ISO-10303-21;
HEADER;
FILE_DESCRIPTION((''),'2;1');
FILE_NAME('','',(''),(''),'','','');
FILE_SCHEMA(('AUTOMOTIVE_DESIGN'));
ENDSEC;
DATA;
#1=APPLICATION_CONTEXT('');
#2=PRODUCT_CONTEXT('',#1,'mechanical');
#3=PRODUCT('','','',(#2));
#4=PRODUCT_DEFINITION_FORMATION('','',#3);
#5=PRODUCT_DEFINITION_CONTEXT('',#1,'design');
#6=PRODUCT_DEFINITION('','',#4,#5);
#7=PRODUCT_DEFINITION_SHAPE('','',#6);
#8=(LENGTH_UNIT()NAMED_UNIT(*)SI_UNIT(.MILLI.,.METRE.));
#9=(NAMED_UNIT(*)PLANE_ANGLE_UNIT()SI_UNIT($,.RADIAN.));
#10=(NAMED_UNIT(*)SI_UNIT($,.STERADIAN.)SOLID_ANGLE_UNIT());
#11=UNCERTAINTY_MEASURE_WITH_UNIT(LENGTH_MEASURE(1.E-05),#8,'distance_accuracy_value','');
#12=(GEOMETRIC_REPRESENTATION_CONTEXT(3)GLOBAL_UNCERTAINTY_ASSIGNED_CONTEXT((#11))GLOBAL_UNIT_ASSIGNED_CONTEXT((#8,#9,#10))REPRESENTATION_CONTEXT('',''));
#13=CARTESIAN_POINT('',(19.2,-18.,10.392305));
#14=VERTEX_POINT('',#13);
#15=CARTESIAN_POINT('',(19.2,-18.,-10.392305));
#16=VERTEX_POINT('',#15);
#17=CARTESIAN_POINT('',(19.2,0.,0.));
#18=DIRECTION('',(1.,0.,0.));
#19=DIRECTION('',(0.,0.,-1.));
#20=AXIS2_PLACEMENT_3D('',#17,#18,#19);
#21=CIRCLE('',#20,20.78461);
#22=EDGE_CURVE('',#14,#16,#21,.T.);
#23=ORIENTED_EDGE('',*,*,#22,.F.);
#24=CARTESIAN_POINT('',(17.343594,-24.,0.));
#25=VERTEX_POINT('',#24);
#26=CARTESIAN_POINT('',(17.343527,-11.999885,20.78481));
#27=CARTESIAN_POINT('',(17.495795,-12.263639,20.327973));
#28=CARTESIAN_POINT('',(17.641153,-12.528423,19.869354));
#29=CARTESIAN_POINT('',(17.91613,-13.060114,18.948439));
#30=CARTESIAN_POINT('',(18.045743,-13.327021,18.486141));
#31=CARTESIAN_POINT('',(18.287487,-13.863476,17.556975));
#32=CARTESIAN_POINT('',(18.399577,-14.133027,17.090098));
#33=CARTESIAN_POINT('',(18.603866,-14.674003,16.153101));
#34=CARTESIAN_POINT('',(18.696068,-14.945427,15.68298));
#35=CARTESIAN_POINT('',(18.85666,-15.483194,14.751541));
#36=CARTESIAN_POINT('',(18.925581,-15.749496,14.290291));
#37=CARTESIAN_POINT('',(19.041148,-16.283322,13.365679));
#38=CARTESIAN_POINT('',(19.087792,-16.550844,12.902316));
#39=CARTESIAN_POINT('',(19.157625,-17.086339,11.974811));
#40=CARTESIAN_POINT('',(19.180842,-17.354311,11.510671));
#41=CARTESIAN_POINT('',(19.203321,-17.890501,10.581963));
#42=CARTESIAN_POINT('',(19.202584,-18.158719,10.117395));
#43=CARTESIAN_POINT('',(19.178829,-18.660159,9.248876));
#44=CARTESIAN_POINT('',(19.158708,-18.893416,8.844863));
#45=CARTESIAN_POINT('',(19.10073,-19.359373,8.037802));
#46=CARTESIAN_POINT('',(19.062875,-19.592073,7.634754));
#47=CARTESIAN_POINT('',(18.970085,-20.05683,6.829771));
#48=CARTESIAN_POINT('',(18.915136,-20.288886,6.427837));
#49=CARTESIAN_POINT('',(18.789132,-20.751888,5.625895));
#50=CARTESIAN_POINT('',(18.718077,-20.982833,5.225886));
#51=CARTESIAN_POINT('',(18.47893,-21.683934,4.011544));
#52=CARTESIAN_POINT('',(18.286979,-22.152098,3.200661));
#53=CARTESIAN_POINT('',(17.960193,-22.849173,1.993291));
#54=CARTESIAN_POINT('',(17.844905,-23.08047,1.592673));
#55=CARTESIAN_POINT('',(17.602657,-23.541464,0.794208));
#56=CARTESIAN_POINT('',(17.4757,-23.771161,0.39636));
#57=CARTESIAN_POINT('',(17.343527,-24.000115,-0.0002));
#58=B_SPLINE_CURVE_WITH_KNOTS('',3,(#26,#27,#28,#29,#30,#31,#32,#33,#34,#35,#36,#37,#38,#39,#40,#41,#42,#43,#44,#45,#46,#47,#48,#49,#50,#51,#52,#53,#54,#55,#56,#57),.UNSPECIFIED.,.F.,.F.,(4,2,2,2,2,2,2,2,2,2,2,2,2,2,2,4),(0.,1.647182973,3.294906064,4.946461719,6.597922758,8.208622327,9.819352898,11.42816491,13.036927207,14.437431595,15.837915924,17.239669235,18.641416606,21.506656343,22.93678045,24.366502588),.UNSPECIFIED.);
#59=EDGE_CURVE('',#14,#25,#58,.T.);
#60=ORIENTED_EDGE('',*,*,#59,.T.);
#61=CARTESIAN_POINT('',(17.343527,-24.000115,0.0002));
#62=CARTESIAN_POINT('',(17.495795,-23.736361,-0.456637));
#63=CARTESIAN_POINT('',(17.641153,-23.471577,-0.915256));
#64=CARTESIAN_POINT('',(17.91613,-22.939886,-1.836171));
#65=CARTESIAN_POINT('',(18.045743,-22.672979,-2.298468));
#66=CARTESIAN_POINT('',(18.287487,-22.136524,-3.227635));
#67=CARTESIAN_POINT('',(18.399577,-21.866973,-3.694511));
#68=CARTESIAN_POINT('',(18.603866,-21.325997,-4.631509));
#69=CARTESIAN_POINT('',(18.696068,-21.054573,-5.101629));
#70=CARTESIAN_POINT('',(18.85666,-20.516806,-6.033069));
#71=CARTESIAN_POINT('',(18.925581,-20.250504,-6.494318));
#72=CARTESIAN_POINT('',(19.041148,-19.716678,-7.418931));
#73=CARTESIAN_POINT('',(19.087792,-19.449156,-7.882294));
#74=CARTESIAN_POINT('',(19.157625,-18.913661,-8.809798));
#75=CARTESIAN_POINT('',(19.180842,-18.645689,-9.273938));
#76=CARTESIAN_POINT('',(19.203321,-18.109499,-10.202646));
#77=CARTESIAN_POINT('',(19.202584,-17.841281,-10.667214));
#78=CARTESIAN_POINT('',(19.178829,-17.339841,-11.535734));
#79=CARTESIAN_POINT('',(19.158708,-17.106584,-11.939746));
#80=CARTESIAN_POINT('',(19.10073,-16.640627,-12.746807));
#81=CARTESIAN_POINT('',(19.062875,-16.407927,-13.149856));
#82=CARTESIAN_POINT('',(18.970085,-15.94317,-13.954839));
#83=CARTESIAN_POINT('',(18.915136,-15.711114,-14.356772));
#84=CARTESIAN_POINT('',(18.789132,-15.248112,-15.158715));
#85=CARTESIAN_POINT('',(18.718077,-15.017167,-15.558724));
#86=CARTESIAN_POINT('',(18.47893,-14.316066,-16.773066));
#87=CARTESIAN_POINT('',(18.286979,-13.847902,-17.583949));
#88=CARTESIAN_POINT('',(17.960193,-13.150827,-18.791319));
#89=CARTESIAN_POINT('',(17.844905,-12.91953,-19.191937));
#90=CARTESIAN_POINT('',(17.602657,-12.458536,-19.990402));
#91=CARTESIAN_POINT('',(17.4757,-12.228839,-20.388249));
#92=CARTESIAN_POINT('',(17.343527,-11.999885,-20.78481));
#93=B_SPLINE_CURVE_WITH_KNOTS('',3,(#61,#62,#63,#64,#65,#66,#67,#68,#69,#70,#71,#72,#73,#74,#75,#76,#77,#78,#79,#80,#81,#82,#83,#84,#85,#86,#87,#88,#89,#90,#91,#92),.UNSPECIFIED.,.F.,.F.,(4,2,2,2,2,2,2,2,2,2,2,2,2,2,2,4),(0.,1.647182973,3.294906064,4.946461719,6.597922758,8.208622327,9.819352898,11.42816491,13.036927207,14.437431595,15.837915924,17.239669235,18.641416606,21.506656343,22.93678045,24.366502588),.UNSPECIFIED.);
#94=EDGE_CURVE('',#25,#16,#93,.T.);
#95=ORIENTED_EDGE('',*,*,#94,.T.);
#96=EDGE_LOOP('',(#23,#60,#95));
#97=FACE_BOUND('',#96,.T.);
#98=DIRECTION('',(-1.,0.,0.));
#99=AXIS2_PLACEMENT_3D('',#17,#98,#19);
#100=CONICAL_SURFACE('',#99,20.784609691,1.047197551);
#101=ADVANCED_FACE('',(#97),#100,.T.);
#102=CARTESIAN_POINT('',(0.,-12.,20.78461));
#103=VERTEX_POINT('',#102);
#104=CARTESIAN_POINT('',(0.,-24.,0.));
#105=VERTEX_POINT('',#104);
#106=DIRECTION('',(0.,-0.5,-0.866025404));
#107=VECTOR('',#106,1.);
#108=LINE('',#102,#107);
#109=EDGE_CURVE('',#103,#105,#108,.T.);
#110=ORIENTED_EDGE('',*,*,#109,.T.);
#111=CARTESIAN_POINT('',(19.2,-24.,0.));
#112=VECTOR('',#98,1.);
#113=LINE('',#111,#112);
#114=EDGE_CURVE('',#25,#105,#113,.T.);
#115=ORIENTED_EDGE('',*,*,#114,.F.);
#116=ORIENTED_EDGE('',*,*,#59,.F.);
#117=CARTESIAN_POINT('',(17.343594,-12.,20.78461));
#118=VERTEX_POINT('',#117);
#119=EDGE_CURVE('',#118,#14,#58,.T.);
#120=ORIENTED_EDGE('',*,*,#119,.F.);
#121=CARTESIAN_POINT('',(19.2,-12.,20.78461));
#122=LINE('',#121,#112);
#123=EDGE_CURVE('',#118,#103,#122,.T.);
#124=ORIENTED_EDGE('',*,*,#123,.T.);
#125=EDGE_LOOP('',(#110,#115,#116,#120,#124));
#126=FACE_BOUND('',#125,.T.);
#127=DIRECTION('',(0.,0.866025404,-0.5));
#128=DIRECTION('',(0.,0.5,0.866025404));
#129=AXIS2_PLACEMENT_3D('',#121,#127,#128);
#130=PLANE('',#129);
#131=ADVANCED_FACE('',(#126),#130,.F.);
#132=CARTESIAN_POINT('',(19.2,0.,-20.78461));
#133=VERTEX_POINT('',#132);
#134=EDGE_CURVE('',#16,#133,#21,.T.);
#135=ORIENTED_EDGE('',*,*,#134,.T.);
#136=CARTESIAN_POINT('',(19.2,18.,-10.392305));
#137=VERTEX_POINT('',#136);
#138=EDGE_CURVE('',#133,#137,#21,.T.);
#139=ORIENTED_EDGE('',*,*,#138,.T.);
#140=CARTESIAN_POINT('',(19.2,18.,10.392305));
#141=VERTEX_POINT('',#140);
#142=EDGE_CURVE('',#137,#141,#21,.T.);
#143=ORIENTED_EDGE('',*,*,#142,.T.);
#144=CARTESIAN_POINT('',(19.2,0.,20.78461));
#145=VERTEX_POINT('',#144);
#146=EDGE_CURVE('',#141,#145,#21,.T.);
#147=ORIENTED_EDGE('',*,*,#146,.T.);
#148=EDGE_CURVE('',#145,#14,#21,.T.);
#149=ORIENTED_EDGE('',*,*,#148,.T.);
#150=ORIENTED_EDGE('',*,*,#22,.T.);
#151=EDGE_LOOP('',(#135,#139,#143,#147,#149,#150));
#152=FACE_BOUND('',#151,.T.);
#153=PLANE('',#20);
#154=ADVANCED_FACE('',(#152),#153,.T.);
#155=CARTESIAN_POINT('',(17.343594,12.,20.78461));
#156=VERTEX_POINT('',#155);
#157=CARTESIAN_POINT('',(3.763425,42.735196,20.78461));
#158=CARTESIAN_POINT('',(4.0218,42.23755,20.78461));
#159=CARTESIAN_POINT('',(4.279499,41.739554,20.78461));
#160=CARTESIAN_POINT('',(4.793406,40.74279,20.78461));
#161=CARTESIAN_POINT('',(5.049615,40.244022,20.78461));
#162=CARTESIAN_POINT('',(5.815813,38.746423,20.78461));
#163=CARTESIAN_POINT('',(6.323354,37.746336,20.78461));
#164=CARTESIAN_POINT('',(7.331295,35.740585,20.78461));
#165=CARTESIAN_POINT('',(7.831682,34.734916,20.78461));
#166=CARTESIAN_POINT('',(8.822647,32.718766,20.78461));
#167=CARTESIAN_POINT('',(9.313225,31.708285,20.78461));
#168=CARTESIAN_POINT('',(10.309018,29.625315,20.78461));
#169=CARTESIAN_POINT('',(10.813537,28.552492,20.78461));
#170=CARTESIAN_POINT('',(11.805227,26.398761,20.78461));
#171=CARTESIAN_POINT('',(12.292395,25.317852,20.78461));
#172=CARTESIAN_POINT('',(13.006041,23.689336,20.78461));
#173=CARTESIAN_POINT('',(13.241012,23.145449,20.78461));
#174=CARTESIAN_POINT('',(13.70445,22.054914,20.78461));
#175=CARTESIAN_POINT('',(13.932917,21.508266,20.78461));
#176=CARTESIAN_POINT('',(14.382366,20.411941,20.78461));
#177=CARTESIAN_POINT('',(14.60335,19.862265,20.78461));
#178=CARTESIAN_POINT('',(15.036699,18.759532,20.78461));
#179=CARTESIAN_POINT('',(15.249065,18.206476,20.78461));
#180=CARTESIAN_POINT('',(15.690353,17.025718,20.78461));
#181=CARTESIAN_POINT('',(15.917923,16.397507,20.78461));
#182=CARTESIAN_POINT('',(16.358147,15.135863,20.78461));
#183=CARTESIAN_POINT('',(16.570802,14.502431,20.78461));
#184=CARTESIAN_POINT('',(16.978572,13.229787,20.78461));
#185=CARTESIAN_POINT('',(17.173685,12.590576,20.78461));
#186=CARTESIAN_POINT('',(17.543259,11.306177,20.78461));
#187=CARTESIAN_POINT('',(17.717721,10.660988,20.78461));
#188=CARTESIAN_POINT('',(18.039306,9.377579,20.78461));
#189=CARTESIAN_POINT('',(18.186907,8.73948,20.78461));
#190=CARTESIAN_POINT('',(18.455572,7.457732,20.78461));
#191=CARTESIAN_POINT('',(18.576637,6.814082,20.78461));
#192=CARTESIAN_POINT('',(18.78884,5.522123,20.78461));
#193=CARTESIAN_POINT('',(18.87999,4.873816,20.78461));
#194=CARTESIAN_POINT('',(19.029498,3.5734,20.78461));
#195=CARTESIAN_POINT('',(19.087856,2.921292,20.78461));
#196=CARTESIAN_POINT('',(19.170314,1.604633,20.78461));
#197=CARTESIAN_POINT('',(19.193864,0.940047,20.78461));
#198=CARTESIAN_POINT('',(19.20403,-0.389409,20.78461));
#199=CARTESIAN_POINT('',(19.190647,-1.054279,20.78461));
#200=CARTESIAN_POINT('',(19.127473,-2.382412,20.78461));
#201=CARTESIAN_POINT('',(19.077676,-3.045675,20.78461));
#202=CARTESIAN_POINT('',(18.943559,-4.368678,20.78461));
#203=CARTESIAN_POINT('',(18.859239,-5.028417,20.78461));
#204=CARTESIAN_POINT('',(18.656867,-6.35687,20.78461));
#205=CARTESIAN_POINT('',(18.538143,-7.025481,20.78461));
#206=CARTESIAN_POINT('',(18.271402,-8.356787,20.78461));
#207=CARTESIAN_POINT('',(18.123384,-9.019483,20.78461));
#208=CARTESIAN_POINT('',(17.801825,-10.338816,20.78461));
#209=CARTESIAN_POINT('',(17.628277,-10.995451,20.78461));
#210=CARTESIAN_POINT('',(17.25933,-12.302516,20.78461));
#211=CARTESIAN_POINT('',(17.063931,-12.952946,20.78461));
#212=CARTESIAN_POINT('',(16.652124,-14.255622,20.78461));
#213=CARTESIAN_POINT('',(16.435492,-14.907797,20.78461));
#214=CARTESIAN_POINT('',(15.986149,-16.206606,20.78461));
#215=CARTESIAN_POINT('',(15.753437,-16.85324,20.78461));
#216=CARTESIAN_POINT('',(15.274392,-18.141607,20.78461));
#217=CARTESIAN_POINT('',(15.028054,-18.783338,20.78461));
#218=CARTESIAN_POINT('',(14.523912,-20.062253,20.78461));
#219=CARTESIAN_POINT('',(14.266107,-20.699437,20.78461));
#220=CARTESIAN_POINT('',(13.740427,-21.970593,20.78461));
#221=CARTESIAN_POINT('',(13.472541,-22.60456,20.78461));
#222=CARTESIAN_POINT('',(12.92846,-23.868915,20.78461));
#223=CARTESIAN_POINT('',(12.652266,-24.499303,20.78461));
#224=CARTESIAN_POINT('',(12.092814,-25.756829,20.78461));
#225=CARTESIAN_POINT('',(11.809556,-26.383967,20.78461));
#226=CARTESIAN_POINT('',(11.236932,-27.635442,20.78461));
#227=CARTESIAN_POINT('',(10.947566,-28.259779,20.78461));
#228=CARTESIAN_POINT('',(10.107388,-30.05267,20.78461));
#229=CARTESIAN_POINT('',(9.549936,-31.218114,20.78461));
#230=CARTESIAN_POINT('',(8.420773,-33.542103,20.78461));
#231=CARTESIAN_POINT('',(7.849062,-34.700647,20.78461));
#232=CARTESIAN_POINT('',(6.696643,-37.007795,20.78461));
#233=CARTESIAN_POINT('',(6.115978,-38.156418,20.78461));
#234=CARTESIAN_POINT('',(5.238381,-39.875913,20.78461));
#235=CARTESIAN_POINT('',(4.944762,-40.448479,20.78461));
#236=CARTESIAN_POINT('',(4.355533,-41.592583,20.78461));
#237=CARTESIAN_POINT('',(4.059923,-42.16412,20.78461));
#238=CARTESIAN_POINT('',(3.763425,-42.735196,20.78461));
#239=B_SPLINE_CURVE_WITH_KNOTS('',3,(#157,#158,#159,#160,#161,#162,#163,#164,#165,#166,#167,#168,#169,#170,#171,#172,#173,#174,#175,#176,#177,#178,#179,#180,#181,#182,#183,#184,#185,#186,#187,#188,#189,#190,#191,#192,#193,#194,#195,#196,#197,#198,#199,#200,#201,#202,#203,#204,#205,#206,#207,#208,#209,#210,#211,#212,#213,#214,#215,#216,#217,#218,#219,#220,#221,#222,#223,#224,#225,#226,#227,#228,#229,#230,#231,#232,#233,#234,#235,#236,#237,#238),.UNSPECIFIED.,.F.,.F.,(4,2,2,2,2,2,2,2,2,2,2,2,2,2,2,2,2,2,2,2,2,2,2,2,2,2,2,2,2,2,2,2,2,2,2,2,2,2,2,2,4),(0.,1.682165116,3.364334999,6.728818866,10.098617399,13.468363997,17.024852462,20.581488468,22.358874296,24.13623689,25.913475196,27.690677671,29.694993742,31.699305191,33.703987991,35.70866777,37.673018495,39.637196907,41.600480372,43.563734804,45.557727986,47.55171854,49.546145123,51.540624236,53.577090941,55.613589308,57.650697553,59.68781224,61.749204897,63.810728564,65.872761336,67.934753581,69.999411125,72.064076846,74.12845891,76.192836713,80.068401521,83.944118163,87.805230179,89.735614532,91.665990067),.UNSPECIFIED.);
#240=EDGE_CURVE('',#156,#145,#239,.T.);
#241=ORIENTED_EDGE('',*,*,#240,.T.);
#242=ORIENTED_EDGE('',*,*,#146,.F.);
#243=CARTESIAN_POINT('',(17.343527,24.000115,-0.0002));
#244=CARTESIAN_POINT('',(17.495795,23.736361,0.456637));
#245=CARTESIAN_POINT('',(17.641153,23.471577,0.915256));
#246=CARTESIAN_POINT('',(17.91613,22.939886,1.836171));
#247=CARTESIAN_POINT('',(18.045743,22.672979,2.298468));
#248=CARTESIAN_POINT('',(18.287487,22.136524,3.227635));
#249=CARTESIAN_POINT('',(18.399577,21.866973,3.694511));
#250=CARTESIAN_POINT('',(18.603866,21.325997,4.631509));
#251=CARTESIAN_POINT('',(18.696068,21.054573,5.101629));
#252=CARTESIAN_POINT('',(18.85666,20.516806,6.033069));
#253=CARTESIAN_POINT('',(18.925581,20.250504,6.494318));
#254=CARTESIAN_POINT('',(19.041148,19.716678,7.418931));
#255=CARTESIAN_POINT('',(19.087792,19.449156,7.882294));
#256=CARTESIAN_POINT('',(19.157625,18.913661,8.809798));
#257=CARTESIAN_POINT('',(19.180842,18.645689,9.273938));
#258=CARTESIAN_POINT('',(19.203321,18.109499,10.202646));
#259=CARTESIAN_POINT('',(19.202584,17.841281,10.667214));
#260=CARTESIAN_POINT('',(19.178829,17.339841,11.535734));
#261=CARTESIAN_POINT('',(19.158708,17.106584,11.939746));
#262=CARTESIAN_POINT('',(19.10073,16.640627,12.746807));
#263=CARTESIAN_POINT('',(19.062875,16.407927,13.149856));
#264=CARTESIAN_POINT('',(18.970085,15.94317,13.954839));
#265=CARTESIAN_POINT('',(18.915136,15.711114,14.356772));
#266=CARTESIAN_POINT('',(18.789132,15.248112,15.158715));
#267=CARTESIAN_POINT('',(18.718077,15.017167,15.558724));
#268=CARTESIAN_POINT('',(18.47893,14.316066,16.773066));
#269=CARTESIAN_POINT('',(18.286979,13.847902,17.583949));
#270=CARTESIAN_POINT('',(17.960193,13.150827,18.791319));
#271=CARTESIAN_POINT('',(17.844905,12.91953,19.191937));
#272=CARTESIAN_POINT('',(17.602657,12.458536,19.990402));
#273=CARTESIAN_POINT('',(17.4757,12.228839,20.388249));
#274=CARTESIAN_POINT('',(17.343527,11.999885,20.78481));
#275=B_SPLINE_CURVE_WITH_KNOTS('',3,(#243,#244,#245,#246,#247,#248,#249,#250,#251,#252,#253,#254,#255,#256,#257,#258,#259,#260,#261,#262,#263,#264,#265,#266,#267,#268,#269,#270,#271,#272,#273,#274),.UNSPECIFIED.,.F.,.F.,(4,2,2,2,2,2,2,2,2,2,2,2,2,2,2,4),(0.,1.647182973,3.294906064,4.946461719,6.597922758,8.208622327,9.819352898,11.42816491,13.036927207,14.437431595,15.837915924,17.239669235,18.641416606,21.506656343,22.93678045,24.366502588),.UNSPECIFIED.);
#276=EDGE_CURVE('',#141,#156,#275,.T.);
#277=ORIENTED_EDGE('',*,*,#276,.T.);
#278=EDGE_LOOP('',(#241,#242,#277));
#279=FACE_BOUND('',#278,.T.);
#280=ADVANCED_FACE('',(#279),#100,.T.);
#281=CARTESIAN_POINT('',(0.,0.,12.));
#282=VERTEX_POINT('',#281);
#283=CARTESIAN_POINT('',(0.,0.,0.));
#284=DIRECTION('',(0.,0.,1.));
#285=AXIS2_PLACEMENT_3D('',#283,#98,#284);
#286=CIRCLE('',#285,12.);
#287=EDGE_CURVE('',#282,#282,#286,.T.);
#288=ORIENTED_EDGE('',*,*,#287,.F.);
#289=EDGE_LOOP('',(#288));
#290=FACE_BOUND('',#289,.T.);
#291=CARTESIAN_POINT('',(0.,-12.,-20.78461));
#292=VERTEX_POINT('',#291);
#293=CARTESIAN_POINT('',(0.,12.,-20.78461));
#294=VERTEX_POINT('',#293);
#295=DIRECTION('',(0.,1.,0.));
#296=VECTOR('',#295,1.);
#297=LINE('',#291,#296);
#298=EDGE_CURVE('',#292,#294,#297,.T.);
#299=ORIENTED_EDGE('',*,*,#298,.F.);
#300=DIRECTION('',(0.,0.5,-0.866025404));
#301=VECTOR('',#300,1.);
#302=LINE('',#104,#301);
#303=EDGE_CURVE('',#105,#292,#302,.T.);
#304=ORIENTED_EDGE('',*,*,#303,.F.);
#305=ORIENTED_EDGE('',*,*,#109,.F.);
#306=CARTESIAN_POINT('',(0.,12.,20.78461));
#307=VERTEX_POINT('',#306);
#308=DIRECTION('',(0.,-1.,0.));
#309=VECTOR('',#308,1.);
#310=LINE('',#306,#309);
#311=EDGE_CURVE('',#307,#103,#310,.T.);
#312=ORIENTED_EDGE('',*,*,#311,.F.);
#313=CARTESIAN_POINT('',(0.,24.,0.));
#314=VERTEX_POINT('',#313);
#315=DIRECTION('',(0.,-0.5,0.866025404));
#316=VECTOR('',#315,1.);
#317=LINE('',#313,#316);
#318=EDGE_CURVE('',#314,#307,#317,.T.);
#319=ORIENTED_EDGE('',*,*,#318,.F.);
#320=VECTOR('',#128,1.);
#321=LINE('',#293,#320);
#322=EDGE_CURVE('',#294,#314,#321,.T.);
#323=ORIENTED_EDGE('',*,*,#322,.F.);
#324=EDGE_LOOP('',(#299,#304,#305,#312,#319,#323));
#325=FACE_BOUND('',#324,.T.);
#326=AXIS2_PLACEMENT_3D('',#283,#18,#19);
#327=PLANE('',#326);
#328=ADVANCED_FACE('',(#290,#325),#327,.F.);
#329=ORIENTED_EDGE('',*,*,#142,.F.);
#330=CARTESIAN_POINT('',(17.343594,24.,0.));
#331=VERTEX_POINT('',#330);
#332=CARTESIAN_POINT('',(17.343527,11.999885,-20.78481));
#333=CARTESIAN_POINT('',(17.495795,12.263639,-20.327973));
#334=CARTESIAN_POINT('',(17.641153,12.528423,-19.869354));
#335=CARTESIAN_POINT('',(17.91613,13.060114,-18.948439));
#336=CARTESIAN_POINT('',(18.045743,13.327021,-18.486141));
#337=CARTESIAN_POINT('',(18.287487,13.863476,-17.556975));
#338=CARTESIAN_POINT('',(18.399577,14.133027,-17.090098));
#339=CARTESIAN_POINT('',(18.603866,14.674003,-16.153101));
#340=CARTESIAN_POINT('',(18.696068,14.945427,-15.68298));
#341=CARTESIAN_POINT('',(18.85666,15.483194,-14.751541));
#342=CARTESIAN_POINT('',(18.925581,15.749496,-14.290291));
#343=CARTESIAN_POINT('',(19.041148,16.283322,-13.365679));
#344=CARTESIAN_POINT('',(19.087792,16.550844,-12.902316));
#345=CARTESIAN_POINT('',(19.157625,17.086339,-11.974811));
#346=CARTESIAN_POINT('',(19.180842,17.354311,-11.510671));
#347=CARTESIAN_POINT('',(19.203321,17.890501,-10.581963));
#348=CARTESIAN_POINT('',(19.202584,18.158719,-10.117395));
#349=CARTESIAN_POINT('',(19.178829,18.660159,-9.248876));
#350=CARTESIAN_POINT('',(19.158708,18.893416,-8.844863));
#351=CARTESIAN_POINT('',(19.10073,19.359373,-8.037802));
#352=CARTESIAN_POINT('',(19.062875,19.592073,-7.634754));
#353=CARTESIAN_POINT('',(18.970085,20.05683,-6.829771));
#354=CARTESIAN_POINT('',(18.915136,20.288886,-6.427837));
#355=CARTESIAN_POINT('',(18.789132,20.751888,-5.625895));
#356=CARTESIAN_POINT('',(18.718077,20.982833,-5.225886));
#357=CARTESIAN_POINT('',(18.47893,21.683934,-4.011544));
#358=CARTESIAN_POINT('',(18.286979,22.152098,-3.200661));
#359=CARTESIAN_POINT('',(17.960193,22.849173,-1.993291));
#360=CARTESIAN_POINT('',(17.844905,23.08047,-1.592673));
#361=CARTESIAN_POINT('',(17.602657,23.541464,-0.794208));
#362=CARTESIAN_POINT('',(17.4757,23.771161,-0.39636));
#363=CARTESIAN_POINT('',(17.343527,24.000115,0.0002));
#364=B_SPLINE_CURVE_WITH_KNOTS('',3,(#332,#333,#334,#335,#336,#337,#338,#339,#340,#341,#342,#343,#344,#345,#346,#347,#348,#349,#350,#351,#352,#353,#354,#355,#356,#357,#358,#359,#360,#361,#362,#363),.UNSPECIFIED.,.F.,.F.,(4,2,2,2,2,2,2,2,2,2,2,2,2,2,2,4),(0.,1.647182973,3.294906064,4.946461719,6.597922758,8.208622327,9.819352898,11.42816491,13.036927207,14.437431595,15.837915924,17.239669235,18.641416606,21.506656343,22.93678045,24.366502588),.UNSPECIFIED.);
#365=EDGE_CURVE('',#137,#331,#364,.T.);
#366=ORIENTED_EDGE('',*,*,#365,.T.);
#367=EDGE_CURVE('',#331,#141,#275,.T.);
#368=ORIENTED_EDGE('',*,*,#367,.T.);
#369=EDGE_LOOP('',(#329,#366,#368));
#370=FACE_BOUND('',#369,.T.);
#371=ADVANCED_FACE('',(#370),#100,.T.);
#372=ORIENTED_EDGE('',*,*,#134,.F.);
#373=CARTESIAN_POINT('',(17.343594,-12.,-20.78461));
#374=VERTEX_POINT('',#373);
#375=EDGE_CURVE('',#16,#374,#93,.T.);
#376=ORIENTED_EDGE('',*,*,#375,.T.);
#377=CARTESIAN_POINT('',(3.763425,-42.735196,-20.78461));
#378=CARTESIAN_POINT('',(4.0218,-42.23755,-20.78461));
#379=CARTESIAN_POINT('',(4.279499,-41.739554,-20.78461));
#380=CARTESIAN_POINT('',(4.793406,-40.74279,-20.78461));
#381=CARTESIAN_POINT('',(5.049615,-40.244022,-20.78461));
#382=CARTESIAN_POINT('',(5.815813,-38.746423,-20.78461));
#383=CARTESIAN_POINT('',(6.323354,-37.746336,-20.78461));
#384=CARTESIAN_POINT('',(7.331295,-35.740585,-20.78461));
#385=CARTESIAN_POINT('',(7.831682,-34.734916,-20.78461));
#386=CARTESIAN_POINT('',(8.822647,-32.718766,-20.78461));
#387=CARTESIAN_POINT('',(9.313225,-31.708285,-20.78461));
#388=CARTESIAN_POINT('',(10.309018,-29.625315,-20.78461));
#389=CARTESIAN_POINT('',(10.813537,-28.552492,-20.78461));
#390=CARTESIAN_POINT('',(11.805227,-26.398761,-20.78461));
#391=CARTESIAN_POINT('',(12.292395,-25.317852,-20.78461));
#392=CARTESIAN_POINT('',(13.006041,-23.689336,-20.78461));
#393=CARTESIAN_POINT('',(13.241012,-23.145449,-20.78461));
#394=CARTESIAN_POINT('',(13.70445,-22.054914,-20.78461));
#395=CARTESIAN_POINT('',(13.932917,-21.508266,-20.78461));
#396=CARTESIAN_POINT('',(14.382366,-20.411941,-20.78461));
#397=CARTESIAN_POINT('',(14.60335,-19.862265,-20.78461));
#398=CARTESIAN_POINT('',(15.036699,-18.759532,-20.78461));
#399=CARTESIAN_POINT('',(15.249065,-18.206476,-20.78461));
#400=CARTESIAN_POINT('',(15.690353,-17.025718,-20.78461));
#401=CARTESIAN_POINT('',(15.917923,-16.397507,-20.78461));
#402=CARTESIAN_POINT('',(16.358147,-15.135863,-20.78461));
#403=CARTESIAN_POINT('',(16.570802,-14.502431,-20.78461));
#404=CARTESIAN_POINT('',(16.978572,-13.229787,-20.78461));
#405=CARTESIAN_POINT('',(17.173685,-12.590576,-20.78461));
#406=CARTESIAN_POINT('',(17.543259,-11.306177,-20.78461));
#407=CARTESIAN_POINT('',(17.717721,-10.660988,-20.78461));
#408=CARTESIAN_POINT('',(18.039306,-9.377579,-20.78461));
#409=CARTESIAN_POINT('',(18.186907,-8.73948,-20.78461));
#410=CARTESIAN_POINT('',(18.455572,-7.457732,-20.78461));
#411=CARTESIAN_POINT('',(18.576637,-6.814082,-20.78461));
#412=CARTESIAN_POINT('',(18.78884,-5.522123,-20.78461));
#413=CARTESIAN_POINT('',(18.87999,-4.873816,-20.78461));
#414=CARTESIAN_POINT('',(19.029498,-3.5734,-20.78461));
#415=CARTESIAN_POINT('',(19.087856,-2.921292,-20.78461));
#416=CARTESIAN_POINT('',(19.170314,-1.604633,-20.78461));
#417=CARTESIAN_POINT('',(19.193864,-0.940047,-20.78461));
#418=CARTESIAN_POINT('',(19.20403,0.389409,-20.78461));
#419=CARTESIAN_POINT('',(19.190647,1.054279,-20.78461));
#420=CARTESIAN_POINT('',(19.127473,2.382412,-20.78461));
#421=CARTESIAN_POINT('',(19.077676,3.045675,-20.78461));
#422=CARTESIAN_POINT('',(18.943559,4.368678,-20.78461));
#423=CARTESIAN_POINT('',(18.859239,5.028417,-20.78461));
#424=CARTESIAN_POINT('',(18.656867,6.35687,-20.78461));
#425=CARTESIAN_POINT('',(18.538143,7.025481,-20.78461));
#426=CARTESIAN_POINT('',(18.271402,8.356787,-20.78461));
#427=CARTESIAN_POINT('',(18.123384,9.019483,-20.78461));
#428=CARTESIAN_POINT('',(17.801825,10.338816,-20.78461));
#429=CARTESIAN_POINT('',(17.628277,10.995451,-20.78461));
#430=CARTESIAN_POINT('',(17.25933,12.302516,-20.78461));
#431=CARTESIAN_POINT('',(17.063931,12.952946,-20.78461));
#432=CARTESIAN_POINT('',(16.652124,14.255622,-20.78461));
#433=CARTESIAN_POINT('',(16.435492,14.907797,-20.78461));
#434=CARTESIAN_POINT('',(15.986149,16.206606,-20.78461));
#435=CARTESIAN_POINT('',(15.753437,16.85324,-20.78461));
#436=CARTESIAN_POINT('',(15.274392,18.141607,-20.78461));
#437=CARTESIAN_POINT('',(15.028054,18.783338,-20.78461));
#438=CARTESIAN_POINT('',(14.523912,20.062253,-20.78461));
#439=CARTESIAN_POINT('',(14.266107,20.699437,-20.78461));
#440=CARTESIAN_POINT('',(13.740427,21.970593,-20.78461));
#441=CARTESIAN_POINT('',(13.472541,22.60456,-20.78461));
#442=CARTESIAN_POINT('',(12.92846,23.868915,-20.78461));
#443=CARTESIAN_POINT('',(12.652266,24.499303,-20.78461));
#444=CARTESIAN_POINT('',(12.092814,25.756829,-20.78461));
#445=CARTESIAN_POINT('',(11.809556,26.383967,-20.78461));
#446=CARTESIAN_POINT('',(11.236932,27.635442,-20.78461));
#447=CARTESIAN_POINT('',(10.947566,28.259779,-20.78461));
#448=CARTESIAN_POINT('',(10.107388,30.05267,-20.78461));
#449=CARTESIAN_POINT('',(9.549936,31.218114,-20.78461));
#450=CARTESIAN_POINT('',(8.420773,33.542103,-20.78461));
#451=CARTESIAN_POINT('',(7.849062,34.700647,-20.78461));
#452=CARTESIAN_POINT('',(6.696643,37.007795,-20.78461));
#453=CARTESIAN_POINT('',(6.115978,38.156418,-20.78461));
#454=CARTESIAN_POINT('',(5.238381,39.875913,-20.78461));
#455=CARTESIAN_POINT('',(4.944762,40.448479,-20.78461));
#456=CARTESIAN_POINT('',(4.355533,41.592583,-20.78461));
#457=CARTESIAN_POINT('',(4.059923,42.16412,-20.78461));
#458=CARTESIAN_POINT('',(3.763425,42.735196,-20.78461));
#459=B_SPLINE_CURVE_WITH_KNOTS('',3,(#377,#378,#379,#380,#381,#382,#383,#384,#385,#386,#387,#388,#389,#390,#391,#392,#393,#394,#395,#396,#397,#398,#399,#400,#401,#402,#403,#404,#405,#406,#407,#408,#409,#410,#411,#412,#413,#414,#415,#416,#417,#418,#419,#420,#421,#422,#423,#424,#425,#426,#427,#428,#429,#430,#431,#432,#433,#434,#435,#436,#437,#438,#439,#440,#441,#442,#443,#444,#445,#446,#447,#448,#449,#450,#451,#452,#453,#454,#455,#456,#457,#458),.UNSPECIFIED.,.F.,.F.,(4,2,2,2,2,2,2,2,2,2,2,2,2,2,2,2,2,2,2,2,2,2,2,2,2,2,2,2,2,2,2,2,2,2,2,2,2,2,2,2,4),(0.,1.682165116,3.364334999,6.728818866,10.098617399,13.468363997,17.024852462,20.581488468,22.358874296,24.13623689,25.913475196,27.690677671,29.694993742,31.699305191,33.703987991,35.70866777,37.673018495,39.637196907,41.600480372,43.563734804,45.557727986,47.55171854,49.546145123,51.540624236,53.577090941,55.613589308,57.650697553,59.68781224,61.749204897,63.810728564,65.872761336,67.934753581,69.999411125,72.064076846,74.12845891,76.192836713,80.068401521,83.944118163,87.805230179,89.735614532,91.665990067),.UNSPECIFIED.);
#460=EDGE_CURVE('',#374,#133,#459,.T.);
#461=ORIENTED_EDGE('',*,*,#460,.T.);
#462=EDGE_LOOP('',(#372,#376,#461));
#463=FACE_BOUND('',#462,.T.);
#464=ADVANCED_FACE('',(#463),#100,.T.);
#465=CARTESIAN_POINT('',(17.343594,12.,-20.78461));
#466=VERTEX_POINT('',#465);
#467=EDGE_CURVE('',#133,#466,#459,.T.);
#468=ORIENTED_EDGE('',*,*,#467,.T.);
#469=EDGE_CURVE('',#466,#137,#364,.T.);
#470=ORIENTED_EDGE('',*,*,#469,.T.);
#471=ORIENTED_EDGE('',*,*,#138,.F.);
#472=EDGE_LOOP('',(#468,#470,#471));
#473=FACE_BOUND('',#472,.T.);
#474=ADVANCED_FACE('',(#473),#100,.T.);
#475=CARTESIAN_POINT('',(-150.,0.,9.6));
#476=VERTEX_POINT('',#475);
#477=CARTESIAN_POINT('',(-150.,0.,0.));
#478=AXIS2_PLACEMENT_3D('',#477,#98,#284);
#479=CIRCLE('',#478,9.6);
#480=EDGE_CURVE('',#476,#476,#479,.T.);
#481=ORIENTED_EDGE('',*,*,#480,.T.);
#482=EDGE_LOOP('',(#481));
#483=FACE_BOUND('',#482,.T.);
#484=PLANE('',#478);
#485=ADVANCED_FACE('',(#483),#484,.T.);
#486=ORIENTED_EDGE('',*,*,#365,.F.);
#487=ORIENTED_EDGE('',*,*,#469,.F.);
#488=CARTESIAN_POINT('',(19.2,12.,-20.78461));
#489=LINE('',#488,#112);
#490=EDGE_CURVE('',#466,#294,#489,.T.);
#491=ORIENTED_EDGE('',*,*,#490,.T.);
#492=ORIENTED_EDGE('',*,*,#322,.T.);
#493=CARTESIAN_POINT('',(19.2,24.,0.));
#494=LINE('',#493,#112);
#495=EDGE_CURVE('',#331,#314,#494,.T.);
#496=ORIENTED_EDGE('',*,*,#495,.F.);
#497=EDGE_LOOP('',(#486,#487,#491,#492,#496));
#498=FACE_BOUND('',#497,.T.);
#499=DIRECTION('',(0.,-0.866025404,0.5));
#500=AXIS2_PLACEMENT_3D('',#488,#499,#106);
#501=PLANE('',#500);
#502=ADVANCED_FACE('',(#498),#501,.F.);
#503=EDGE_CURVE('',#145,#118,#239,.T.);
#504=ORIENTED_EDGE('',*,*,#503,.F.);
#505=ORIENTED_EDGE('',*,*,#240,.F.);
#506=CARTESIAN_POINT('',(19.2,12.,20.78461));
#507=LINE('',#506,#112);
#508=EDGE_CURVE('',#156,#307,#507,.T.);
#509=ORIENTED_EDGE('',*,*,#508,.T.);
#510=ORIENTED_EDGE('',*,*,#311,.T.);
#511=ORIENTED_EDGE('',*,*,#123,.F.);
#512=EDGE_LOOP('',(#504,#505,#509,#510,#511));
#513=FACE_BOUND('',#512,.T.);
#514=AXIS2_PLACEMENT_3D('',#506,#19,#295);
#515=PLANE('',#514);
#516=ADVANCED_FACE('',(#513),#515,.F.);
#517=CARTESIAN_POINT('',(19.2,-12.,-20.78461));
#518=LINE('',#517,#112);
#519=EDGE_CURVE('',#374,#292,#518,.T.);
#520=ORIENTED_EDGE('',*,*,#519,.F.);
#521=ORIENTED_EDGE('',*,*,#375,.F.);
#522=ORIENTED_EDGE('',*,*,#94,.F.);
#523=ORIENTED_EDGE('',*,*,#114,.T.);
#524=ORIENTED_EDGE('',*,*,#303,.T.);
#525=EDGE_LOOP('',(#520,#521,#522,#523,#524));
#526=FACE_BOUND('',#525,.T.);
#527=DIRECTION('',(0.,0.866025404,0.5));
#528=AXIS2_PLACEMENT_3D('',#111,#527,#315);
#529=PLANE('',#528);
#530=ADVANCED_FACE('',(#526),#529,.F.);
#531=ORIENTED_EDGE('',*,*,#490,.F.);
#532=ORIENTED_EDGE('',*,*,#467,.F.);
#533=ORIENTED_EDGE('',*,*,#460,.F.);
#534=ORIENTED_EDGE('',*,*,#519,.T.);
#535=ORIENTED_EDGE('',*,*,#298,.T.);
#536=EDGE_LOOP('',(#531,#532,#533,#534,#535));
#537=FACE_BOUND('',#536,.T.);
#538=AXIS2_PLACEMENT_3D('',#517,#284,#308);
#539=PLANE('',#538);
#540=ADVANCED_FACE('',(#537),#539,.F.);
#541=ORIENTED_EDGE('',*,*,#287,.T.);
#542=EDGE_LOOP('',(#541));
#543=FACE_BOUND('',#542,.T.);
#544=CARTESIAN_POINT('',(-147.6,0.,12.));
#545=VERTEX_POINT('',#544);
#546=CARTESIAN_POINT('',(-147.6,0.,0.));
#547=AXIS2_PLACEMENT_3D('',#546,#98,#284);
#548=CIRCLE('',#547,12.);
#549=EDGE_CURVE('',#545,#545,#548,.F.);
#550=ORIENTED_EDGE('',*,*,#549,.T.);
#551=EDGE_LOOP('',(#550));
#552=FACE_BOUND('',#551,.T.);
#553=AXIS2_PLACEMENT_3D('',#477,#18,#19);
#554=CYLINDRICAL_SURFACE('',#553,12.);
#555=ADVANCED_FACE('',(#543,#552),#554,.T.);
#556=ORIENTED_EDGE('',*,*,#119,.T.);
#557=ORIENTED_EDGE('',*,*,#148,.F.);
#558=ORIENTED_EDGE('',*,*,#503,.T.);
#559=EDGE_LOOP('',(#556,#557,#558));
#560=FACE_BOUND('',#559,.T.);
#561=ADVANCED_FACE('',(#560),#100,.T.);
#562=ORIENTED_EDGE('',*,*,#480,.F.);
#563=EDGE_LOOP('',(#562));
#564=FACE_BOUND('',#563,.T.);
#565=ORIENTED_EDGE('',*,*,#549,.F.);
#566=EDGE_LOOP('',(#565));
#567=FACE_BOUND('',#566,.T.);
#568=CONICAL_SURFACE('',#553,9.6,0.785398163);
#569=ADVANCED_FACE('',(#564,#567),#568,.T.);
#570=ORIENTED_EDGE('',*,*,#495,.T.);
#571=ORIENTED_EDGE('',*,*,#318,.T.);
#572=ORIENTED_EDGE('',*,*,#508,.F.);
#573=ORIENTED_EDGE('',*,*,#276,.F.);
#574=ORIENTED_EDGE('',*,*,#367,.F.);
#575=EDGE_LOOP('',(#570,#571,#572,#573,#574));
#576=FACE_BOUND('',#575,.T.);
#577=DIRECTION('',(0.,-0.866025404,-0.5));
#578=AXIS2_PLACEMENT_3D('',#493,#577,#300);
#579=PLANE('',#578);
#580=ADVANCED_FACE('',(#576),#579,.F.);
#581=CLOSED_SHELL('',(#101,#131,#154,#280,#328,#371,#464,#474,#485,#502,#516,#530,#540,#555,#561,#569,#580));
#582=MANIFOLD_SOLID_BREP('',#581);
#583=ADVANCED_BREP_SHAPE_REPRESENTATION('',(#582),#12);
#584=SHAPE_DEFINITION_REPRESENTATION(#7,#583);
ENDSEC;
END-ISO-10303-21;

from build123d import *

# Parameters (mm, degrees)
BOSS_EXTRUDE2_DEPTH = 19.2
SKETCH3_R           = 12
BOSS_EXTRUDE3_DEPTH = 150
CHAMFER1_SIZE       = 2.4
SKETCH5_OUTSIDE_W   = 599.33
SKETCH5_OUTSIDE_H   = 605.76
SKETCH5_OUTSIDE_R   = 20.784609691
CUT_EXTRUDE1_DEPTH  = 150
CUT_EXTRUDE1_TAPER  = 60


with BuildPart() as part:
    # Sketch1 → Boss-Extrude2 (new body)
    with BuildSketch(Plane(origin=(0, 0, 0), x_dir=(0, 0, -1), z_dir=(1, 0, 0))):
        Polygon((0, 24), (-20.784609691, 12), (-20.784609691, -12), (0, -24), (20.784609691, -12), (20.784609691, 12), align=None)
    extrude(amount=BOSS_EXTRUDE2_DEPTH)

    # Sketch3 → Boss-Extrude3 (add)
    with BuildSketch(Plane.ZY):
        Circle(SKETCH3_R)
    extrude(amount=BOSS_EXTRUDE3_DEPTH)

    # Chamfer1
    chamfer1_edges = [part.edges().sort_by_distance(p)[0] for p in [
        (-150, 0, -12),
    ]]
    chamfer(chamfer1_edges, length=CHAMFER1_SIZE)

    # Sketch5 outside → Cut-Extrude1 (cut)
    with BuildSketch(Plane(origin=(19.2, 0, 0), x_dir=(0, 0, -1), z_dir=(1, 0, 0))):
        Rectangle(SKETCH5_OUTSIDE_W, SKETCH5_OUTSIDE_H)
        Circle(SKETCH5_OUTSIDE_R, mode=Mode.SUBTRACT)
    extrude(amount=-CUT_EXTRUDE1_DEPTH, taper=CUT_EXTRUDE1_TAPER, mode=Mode.SUBTRACT)


solid = part.part
